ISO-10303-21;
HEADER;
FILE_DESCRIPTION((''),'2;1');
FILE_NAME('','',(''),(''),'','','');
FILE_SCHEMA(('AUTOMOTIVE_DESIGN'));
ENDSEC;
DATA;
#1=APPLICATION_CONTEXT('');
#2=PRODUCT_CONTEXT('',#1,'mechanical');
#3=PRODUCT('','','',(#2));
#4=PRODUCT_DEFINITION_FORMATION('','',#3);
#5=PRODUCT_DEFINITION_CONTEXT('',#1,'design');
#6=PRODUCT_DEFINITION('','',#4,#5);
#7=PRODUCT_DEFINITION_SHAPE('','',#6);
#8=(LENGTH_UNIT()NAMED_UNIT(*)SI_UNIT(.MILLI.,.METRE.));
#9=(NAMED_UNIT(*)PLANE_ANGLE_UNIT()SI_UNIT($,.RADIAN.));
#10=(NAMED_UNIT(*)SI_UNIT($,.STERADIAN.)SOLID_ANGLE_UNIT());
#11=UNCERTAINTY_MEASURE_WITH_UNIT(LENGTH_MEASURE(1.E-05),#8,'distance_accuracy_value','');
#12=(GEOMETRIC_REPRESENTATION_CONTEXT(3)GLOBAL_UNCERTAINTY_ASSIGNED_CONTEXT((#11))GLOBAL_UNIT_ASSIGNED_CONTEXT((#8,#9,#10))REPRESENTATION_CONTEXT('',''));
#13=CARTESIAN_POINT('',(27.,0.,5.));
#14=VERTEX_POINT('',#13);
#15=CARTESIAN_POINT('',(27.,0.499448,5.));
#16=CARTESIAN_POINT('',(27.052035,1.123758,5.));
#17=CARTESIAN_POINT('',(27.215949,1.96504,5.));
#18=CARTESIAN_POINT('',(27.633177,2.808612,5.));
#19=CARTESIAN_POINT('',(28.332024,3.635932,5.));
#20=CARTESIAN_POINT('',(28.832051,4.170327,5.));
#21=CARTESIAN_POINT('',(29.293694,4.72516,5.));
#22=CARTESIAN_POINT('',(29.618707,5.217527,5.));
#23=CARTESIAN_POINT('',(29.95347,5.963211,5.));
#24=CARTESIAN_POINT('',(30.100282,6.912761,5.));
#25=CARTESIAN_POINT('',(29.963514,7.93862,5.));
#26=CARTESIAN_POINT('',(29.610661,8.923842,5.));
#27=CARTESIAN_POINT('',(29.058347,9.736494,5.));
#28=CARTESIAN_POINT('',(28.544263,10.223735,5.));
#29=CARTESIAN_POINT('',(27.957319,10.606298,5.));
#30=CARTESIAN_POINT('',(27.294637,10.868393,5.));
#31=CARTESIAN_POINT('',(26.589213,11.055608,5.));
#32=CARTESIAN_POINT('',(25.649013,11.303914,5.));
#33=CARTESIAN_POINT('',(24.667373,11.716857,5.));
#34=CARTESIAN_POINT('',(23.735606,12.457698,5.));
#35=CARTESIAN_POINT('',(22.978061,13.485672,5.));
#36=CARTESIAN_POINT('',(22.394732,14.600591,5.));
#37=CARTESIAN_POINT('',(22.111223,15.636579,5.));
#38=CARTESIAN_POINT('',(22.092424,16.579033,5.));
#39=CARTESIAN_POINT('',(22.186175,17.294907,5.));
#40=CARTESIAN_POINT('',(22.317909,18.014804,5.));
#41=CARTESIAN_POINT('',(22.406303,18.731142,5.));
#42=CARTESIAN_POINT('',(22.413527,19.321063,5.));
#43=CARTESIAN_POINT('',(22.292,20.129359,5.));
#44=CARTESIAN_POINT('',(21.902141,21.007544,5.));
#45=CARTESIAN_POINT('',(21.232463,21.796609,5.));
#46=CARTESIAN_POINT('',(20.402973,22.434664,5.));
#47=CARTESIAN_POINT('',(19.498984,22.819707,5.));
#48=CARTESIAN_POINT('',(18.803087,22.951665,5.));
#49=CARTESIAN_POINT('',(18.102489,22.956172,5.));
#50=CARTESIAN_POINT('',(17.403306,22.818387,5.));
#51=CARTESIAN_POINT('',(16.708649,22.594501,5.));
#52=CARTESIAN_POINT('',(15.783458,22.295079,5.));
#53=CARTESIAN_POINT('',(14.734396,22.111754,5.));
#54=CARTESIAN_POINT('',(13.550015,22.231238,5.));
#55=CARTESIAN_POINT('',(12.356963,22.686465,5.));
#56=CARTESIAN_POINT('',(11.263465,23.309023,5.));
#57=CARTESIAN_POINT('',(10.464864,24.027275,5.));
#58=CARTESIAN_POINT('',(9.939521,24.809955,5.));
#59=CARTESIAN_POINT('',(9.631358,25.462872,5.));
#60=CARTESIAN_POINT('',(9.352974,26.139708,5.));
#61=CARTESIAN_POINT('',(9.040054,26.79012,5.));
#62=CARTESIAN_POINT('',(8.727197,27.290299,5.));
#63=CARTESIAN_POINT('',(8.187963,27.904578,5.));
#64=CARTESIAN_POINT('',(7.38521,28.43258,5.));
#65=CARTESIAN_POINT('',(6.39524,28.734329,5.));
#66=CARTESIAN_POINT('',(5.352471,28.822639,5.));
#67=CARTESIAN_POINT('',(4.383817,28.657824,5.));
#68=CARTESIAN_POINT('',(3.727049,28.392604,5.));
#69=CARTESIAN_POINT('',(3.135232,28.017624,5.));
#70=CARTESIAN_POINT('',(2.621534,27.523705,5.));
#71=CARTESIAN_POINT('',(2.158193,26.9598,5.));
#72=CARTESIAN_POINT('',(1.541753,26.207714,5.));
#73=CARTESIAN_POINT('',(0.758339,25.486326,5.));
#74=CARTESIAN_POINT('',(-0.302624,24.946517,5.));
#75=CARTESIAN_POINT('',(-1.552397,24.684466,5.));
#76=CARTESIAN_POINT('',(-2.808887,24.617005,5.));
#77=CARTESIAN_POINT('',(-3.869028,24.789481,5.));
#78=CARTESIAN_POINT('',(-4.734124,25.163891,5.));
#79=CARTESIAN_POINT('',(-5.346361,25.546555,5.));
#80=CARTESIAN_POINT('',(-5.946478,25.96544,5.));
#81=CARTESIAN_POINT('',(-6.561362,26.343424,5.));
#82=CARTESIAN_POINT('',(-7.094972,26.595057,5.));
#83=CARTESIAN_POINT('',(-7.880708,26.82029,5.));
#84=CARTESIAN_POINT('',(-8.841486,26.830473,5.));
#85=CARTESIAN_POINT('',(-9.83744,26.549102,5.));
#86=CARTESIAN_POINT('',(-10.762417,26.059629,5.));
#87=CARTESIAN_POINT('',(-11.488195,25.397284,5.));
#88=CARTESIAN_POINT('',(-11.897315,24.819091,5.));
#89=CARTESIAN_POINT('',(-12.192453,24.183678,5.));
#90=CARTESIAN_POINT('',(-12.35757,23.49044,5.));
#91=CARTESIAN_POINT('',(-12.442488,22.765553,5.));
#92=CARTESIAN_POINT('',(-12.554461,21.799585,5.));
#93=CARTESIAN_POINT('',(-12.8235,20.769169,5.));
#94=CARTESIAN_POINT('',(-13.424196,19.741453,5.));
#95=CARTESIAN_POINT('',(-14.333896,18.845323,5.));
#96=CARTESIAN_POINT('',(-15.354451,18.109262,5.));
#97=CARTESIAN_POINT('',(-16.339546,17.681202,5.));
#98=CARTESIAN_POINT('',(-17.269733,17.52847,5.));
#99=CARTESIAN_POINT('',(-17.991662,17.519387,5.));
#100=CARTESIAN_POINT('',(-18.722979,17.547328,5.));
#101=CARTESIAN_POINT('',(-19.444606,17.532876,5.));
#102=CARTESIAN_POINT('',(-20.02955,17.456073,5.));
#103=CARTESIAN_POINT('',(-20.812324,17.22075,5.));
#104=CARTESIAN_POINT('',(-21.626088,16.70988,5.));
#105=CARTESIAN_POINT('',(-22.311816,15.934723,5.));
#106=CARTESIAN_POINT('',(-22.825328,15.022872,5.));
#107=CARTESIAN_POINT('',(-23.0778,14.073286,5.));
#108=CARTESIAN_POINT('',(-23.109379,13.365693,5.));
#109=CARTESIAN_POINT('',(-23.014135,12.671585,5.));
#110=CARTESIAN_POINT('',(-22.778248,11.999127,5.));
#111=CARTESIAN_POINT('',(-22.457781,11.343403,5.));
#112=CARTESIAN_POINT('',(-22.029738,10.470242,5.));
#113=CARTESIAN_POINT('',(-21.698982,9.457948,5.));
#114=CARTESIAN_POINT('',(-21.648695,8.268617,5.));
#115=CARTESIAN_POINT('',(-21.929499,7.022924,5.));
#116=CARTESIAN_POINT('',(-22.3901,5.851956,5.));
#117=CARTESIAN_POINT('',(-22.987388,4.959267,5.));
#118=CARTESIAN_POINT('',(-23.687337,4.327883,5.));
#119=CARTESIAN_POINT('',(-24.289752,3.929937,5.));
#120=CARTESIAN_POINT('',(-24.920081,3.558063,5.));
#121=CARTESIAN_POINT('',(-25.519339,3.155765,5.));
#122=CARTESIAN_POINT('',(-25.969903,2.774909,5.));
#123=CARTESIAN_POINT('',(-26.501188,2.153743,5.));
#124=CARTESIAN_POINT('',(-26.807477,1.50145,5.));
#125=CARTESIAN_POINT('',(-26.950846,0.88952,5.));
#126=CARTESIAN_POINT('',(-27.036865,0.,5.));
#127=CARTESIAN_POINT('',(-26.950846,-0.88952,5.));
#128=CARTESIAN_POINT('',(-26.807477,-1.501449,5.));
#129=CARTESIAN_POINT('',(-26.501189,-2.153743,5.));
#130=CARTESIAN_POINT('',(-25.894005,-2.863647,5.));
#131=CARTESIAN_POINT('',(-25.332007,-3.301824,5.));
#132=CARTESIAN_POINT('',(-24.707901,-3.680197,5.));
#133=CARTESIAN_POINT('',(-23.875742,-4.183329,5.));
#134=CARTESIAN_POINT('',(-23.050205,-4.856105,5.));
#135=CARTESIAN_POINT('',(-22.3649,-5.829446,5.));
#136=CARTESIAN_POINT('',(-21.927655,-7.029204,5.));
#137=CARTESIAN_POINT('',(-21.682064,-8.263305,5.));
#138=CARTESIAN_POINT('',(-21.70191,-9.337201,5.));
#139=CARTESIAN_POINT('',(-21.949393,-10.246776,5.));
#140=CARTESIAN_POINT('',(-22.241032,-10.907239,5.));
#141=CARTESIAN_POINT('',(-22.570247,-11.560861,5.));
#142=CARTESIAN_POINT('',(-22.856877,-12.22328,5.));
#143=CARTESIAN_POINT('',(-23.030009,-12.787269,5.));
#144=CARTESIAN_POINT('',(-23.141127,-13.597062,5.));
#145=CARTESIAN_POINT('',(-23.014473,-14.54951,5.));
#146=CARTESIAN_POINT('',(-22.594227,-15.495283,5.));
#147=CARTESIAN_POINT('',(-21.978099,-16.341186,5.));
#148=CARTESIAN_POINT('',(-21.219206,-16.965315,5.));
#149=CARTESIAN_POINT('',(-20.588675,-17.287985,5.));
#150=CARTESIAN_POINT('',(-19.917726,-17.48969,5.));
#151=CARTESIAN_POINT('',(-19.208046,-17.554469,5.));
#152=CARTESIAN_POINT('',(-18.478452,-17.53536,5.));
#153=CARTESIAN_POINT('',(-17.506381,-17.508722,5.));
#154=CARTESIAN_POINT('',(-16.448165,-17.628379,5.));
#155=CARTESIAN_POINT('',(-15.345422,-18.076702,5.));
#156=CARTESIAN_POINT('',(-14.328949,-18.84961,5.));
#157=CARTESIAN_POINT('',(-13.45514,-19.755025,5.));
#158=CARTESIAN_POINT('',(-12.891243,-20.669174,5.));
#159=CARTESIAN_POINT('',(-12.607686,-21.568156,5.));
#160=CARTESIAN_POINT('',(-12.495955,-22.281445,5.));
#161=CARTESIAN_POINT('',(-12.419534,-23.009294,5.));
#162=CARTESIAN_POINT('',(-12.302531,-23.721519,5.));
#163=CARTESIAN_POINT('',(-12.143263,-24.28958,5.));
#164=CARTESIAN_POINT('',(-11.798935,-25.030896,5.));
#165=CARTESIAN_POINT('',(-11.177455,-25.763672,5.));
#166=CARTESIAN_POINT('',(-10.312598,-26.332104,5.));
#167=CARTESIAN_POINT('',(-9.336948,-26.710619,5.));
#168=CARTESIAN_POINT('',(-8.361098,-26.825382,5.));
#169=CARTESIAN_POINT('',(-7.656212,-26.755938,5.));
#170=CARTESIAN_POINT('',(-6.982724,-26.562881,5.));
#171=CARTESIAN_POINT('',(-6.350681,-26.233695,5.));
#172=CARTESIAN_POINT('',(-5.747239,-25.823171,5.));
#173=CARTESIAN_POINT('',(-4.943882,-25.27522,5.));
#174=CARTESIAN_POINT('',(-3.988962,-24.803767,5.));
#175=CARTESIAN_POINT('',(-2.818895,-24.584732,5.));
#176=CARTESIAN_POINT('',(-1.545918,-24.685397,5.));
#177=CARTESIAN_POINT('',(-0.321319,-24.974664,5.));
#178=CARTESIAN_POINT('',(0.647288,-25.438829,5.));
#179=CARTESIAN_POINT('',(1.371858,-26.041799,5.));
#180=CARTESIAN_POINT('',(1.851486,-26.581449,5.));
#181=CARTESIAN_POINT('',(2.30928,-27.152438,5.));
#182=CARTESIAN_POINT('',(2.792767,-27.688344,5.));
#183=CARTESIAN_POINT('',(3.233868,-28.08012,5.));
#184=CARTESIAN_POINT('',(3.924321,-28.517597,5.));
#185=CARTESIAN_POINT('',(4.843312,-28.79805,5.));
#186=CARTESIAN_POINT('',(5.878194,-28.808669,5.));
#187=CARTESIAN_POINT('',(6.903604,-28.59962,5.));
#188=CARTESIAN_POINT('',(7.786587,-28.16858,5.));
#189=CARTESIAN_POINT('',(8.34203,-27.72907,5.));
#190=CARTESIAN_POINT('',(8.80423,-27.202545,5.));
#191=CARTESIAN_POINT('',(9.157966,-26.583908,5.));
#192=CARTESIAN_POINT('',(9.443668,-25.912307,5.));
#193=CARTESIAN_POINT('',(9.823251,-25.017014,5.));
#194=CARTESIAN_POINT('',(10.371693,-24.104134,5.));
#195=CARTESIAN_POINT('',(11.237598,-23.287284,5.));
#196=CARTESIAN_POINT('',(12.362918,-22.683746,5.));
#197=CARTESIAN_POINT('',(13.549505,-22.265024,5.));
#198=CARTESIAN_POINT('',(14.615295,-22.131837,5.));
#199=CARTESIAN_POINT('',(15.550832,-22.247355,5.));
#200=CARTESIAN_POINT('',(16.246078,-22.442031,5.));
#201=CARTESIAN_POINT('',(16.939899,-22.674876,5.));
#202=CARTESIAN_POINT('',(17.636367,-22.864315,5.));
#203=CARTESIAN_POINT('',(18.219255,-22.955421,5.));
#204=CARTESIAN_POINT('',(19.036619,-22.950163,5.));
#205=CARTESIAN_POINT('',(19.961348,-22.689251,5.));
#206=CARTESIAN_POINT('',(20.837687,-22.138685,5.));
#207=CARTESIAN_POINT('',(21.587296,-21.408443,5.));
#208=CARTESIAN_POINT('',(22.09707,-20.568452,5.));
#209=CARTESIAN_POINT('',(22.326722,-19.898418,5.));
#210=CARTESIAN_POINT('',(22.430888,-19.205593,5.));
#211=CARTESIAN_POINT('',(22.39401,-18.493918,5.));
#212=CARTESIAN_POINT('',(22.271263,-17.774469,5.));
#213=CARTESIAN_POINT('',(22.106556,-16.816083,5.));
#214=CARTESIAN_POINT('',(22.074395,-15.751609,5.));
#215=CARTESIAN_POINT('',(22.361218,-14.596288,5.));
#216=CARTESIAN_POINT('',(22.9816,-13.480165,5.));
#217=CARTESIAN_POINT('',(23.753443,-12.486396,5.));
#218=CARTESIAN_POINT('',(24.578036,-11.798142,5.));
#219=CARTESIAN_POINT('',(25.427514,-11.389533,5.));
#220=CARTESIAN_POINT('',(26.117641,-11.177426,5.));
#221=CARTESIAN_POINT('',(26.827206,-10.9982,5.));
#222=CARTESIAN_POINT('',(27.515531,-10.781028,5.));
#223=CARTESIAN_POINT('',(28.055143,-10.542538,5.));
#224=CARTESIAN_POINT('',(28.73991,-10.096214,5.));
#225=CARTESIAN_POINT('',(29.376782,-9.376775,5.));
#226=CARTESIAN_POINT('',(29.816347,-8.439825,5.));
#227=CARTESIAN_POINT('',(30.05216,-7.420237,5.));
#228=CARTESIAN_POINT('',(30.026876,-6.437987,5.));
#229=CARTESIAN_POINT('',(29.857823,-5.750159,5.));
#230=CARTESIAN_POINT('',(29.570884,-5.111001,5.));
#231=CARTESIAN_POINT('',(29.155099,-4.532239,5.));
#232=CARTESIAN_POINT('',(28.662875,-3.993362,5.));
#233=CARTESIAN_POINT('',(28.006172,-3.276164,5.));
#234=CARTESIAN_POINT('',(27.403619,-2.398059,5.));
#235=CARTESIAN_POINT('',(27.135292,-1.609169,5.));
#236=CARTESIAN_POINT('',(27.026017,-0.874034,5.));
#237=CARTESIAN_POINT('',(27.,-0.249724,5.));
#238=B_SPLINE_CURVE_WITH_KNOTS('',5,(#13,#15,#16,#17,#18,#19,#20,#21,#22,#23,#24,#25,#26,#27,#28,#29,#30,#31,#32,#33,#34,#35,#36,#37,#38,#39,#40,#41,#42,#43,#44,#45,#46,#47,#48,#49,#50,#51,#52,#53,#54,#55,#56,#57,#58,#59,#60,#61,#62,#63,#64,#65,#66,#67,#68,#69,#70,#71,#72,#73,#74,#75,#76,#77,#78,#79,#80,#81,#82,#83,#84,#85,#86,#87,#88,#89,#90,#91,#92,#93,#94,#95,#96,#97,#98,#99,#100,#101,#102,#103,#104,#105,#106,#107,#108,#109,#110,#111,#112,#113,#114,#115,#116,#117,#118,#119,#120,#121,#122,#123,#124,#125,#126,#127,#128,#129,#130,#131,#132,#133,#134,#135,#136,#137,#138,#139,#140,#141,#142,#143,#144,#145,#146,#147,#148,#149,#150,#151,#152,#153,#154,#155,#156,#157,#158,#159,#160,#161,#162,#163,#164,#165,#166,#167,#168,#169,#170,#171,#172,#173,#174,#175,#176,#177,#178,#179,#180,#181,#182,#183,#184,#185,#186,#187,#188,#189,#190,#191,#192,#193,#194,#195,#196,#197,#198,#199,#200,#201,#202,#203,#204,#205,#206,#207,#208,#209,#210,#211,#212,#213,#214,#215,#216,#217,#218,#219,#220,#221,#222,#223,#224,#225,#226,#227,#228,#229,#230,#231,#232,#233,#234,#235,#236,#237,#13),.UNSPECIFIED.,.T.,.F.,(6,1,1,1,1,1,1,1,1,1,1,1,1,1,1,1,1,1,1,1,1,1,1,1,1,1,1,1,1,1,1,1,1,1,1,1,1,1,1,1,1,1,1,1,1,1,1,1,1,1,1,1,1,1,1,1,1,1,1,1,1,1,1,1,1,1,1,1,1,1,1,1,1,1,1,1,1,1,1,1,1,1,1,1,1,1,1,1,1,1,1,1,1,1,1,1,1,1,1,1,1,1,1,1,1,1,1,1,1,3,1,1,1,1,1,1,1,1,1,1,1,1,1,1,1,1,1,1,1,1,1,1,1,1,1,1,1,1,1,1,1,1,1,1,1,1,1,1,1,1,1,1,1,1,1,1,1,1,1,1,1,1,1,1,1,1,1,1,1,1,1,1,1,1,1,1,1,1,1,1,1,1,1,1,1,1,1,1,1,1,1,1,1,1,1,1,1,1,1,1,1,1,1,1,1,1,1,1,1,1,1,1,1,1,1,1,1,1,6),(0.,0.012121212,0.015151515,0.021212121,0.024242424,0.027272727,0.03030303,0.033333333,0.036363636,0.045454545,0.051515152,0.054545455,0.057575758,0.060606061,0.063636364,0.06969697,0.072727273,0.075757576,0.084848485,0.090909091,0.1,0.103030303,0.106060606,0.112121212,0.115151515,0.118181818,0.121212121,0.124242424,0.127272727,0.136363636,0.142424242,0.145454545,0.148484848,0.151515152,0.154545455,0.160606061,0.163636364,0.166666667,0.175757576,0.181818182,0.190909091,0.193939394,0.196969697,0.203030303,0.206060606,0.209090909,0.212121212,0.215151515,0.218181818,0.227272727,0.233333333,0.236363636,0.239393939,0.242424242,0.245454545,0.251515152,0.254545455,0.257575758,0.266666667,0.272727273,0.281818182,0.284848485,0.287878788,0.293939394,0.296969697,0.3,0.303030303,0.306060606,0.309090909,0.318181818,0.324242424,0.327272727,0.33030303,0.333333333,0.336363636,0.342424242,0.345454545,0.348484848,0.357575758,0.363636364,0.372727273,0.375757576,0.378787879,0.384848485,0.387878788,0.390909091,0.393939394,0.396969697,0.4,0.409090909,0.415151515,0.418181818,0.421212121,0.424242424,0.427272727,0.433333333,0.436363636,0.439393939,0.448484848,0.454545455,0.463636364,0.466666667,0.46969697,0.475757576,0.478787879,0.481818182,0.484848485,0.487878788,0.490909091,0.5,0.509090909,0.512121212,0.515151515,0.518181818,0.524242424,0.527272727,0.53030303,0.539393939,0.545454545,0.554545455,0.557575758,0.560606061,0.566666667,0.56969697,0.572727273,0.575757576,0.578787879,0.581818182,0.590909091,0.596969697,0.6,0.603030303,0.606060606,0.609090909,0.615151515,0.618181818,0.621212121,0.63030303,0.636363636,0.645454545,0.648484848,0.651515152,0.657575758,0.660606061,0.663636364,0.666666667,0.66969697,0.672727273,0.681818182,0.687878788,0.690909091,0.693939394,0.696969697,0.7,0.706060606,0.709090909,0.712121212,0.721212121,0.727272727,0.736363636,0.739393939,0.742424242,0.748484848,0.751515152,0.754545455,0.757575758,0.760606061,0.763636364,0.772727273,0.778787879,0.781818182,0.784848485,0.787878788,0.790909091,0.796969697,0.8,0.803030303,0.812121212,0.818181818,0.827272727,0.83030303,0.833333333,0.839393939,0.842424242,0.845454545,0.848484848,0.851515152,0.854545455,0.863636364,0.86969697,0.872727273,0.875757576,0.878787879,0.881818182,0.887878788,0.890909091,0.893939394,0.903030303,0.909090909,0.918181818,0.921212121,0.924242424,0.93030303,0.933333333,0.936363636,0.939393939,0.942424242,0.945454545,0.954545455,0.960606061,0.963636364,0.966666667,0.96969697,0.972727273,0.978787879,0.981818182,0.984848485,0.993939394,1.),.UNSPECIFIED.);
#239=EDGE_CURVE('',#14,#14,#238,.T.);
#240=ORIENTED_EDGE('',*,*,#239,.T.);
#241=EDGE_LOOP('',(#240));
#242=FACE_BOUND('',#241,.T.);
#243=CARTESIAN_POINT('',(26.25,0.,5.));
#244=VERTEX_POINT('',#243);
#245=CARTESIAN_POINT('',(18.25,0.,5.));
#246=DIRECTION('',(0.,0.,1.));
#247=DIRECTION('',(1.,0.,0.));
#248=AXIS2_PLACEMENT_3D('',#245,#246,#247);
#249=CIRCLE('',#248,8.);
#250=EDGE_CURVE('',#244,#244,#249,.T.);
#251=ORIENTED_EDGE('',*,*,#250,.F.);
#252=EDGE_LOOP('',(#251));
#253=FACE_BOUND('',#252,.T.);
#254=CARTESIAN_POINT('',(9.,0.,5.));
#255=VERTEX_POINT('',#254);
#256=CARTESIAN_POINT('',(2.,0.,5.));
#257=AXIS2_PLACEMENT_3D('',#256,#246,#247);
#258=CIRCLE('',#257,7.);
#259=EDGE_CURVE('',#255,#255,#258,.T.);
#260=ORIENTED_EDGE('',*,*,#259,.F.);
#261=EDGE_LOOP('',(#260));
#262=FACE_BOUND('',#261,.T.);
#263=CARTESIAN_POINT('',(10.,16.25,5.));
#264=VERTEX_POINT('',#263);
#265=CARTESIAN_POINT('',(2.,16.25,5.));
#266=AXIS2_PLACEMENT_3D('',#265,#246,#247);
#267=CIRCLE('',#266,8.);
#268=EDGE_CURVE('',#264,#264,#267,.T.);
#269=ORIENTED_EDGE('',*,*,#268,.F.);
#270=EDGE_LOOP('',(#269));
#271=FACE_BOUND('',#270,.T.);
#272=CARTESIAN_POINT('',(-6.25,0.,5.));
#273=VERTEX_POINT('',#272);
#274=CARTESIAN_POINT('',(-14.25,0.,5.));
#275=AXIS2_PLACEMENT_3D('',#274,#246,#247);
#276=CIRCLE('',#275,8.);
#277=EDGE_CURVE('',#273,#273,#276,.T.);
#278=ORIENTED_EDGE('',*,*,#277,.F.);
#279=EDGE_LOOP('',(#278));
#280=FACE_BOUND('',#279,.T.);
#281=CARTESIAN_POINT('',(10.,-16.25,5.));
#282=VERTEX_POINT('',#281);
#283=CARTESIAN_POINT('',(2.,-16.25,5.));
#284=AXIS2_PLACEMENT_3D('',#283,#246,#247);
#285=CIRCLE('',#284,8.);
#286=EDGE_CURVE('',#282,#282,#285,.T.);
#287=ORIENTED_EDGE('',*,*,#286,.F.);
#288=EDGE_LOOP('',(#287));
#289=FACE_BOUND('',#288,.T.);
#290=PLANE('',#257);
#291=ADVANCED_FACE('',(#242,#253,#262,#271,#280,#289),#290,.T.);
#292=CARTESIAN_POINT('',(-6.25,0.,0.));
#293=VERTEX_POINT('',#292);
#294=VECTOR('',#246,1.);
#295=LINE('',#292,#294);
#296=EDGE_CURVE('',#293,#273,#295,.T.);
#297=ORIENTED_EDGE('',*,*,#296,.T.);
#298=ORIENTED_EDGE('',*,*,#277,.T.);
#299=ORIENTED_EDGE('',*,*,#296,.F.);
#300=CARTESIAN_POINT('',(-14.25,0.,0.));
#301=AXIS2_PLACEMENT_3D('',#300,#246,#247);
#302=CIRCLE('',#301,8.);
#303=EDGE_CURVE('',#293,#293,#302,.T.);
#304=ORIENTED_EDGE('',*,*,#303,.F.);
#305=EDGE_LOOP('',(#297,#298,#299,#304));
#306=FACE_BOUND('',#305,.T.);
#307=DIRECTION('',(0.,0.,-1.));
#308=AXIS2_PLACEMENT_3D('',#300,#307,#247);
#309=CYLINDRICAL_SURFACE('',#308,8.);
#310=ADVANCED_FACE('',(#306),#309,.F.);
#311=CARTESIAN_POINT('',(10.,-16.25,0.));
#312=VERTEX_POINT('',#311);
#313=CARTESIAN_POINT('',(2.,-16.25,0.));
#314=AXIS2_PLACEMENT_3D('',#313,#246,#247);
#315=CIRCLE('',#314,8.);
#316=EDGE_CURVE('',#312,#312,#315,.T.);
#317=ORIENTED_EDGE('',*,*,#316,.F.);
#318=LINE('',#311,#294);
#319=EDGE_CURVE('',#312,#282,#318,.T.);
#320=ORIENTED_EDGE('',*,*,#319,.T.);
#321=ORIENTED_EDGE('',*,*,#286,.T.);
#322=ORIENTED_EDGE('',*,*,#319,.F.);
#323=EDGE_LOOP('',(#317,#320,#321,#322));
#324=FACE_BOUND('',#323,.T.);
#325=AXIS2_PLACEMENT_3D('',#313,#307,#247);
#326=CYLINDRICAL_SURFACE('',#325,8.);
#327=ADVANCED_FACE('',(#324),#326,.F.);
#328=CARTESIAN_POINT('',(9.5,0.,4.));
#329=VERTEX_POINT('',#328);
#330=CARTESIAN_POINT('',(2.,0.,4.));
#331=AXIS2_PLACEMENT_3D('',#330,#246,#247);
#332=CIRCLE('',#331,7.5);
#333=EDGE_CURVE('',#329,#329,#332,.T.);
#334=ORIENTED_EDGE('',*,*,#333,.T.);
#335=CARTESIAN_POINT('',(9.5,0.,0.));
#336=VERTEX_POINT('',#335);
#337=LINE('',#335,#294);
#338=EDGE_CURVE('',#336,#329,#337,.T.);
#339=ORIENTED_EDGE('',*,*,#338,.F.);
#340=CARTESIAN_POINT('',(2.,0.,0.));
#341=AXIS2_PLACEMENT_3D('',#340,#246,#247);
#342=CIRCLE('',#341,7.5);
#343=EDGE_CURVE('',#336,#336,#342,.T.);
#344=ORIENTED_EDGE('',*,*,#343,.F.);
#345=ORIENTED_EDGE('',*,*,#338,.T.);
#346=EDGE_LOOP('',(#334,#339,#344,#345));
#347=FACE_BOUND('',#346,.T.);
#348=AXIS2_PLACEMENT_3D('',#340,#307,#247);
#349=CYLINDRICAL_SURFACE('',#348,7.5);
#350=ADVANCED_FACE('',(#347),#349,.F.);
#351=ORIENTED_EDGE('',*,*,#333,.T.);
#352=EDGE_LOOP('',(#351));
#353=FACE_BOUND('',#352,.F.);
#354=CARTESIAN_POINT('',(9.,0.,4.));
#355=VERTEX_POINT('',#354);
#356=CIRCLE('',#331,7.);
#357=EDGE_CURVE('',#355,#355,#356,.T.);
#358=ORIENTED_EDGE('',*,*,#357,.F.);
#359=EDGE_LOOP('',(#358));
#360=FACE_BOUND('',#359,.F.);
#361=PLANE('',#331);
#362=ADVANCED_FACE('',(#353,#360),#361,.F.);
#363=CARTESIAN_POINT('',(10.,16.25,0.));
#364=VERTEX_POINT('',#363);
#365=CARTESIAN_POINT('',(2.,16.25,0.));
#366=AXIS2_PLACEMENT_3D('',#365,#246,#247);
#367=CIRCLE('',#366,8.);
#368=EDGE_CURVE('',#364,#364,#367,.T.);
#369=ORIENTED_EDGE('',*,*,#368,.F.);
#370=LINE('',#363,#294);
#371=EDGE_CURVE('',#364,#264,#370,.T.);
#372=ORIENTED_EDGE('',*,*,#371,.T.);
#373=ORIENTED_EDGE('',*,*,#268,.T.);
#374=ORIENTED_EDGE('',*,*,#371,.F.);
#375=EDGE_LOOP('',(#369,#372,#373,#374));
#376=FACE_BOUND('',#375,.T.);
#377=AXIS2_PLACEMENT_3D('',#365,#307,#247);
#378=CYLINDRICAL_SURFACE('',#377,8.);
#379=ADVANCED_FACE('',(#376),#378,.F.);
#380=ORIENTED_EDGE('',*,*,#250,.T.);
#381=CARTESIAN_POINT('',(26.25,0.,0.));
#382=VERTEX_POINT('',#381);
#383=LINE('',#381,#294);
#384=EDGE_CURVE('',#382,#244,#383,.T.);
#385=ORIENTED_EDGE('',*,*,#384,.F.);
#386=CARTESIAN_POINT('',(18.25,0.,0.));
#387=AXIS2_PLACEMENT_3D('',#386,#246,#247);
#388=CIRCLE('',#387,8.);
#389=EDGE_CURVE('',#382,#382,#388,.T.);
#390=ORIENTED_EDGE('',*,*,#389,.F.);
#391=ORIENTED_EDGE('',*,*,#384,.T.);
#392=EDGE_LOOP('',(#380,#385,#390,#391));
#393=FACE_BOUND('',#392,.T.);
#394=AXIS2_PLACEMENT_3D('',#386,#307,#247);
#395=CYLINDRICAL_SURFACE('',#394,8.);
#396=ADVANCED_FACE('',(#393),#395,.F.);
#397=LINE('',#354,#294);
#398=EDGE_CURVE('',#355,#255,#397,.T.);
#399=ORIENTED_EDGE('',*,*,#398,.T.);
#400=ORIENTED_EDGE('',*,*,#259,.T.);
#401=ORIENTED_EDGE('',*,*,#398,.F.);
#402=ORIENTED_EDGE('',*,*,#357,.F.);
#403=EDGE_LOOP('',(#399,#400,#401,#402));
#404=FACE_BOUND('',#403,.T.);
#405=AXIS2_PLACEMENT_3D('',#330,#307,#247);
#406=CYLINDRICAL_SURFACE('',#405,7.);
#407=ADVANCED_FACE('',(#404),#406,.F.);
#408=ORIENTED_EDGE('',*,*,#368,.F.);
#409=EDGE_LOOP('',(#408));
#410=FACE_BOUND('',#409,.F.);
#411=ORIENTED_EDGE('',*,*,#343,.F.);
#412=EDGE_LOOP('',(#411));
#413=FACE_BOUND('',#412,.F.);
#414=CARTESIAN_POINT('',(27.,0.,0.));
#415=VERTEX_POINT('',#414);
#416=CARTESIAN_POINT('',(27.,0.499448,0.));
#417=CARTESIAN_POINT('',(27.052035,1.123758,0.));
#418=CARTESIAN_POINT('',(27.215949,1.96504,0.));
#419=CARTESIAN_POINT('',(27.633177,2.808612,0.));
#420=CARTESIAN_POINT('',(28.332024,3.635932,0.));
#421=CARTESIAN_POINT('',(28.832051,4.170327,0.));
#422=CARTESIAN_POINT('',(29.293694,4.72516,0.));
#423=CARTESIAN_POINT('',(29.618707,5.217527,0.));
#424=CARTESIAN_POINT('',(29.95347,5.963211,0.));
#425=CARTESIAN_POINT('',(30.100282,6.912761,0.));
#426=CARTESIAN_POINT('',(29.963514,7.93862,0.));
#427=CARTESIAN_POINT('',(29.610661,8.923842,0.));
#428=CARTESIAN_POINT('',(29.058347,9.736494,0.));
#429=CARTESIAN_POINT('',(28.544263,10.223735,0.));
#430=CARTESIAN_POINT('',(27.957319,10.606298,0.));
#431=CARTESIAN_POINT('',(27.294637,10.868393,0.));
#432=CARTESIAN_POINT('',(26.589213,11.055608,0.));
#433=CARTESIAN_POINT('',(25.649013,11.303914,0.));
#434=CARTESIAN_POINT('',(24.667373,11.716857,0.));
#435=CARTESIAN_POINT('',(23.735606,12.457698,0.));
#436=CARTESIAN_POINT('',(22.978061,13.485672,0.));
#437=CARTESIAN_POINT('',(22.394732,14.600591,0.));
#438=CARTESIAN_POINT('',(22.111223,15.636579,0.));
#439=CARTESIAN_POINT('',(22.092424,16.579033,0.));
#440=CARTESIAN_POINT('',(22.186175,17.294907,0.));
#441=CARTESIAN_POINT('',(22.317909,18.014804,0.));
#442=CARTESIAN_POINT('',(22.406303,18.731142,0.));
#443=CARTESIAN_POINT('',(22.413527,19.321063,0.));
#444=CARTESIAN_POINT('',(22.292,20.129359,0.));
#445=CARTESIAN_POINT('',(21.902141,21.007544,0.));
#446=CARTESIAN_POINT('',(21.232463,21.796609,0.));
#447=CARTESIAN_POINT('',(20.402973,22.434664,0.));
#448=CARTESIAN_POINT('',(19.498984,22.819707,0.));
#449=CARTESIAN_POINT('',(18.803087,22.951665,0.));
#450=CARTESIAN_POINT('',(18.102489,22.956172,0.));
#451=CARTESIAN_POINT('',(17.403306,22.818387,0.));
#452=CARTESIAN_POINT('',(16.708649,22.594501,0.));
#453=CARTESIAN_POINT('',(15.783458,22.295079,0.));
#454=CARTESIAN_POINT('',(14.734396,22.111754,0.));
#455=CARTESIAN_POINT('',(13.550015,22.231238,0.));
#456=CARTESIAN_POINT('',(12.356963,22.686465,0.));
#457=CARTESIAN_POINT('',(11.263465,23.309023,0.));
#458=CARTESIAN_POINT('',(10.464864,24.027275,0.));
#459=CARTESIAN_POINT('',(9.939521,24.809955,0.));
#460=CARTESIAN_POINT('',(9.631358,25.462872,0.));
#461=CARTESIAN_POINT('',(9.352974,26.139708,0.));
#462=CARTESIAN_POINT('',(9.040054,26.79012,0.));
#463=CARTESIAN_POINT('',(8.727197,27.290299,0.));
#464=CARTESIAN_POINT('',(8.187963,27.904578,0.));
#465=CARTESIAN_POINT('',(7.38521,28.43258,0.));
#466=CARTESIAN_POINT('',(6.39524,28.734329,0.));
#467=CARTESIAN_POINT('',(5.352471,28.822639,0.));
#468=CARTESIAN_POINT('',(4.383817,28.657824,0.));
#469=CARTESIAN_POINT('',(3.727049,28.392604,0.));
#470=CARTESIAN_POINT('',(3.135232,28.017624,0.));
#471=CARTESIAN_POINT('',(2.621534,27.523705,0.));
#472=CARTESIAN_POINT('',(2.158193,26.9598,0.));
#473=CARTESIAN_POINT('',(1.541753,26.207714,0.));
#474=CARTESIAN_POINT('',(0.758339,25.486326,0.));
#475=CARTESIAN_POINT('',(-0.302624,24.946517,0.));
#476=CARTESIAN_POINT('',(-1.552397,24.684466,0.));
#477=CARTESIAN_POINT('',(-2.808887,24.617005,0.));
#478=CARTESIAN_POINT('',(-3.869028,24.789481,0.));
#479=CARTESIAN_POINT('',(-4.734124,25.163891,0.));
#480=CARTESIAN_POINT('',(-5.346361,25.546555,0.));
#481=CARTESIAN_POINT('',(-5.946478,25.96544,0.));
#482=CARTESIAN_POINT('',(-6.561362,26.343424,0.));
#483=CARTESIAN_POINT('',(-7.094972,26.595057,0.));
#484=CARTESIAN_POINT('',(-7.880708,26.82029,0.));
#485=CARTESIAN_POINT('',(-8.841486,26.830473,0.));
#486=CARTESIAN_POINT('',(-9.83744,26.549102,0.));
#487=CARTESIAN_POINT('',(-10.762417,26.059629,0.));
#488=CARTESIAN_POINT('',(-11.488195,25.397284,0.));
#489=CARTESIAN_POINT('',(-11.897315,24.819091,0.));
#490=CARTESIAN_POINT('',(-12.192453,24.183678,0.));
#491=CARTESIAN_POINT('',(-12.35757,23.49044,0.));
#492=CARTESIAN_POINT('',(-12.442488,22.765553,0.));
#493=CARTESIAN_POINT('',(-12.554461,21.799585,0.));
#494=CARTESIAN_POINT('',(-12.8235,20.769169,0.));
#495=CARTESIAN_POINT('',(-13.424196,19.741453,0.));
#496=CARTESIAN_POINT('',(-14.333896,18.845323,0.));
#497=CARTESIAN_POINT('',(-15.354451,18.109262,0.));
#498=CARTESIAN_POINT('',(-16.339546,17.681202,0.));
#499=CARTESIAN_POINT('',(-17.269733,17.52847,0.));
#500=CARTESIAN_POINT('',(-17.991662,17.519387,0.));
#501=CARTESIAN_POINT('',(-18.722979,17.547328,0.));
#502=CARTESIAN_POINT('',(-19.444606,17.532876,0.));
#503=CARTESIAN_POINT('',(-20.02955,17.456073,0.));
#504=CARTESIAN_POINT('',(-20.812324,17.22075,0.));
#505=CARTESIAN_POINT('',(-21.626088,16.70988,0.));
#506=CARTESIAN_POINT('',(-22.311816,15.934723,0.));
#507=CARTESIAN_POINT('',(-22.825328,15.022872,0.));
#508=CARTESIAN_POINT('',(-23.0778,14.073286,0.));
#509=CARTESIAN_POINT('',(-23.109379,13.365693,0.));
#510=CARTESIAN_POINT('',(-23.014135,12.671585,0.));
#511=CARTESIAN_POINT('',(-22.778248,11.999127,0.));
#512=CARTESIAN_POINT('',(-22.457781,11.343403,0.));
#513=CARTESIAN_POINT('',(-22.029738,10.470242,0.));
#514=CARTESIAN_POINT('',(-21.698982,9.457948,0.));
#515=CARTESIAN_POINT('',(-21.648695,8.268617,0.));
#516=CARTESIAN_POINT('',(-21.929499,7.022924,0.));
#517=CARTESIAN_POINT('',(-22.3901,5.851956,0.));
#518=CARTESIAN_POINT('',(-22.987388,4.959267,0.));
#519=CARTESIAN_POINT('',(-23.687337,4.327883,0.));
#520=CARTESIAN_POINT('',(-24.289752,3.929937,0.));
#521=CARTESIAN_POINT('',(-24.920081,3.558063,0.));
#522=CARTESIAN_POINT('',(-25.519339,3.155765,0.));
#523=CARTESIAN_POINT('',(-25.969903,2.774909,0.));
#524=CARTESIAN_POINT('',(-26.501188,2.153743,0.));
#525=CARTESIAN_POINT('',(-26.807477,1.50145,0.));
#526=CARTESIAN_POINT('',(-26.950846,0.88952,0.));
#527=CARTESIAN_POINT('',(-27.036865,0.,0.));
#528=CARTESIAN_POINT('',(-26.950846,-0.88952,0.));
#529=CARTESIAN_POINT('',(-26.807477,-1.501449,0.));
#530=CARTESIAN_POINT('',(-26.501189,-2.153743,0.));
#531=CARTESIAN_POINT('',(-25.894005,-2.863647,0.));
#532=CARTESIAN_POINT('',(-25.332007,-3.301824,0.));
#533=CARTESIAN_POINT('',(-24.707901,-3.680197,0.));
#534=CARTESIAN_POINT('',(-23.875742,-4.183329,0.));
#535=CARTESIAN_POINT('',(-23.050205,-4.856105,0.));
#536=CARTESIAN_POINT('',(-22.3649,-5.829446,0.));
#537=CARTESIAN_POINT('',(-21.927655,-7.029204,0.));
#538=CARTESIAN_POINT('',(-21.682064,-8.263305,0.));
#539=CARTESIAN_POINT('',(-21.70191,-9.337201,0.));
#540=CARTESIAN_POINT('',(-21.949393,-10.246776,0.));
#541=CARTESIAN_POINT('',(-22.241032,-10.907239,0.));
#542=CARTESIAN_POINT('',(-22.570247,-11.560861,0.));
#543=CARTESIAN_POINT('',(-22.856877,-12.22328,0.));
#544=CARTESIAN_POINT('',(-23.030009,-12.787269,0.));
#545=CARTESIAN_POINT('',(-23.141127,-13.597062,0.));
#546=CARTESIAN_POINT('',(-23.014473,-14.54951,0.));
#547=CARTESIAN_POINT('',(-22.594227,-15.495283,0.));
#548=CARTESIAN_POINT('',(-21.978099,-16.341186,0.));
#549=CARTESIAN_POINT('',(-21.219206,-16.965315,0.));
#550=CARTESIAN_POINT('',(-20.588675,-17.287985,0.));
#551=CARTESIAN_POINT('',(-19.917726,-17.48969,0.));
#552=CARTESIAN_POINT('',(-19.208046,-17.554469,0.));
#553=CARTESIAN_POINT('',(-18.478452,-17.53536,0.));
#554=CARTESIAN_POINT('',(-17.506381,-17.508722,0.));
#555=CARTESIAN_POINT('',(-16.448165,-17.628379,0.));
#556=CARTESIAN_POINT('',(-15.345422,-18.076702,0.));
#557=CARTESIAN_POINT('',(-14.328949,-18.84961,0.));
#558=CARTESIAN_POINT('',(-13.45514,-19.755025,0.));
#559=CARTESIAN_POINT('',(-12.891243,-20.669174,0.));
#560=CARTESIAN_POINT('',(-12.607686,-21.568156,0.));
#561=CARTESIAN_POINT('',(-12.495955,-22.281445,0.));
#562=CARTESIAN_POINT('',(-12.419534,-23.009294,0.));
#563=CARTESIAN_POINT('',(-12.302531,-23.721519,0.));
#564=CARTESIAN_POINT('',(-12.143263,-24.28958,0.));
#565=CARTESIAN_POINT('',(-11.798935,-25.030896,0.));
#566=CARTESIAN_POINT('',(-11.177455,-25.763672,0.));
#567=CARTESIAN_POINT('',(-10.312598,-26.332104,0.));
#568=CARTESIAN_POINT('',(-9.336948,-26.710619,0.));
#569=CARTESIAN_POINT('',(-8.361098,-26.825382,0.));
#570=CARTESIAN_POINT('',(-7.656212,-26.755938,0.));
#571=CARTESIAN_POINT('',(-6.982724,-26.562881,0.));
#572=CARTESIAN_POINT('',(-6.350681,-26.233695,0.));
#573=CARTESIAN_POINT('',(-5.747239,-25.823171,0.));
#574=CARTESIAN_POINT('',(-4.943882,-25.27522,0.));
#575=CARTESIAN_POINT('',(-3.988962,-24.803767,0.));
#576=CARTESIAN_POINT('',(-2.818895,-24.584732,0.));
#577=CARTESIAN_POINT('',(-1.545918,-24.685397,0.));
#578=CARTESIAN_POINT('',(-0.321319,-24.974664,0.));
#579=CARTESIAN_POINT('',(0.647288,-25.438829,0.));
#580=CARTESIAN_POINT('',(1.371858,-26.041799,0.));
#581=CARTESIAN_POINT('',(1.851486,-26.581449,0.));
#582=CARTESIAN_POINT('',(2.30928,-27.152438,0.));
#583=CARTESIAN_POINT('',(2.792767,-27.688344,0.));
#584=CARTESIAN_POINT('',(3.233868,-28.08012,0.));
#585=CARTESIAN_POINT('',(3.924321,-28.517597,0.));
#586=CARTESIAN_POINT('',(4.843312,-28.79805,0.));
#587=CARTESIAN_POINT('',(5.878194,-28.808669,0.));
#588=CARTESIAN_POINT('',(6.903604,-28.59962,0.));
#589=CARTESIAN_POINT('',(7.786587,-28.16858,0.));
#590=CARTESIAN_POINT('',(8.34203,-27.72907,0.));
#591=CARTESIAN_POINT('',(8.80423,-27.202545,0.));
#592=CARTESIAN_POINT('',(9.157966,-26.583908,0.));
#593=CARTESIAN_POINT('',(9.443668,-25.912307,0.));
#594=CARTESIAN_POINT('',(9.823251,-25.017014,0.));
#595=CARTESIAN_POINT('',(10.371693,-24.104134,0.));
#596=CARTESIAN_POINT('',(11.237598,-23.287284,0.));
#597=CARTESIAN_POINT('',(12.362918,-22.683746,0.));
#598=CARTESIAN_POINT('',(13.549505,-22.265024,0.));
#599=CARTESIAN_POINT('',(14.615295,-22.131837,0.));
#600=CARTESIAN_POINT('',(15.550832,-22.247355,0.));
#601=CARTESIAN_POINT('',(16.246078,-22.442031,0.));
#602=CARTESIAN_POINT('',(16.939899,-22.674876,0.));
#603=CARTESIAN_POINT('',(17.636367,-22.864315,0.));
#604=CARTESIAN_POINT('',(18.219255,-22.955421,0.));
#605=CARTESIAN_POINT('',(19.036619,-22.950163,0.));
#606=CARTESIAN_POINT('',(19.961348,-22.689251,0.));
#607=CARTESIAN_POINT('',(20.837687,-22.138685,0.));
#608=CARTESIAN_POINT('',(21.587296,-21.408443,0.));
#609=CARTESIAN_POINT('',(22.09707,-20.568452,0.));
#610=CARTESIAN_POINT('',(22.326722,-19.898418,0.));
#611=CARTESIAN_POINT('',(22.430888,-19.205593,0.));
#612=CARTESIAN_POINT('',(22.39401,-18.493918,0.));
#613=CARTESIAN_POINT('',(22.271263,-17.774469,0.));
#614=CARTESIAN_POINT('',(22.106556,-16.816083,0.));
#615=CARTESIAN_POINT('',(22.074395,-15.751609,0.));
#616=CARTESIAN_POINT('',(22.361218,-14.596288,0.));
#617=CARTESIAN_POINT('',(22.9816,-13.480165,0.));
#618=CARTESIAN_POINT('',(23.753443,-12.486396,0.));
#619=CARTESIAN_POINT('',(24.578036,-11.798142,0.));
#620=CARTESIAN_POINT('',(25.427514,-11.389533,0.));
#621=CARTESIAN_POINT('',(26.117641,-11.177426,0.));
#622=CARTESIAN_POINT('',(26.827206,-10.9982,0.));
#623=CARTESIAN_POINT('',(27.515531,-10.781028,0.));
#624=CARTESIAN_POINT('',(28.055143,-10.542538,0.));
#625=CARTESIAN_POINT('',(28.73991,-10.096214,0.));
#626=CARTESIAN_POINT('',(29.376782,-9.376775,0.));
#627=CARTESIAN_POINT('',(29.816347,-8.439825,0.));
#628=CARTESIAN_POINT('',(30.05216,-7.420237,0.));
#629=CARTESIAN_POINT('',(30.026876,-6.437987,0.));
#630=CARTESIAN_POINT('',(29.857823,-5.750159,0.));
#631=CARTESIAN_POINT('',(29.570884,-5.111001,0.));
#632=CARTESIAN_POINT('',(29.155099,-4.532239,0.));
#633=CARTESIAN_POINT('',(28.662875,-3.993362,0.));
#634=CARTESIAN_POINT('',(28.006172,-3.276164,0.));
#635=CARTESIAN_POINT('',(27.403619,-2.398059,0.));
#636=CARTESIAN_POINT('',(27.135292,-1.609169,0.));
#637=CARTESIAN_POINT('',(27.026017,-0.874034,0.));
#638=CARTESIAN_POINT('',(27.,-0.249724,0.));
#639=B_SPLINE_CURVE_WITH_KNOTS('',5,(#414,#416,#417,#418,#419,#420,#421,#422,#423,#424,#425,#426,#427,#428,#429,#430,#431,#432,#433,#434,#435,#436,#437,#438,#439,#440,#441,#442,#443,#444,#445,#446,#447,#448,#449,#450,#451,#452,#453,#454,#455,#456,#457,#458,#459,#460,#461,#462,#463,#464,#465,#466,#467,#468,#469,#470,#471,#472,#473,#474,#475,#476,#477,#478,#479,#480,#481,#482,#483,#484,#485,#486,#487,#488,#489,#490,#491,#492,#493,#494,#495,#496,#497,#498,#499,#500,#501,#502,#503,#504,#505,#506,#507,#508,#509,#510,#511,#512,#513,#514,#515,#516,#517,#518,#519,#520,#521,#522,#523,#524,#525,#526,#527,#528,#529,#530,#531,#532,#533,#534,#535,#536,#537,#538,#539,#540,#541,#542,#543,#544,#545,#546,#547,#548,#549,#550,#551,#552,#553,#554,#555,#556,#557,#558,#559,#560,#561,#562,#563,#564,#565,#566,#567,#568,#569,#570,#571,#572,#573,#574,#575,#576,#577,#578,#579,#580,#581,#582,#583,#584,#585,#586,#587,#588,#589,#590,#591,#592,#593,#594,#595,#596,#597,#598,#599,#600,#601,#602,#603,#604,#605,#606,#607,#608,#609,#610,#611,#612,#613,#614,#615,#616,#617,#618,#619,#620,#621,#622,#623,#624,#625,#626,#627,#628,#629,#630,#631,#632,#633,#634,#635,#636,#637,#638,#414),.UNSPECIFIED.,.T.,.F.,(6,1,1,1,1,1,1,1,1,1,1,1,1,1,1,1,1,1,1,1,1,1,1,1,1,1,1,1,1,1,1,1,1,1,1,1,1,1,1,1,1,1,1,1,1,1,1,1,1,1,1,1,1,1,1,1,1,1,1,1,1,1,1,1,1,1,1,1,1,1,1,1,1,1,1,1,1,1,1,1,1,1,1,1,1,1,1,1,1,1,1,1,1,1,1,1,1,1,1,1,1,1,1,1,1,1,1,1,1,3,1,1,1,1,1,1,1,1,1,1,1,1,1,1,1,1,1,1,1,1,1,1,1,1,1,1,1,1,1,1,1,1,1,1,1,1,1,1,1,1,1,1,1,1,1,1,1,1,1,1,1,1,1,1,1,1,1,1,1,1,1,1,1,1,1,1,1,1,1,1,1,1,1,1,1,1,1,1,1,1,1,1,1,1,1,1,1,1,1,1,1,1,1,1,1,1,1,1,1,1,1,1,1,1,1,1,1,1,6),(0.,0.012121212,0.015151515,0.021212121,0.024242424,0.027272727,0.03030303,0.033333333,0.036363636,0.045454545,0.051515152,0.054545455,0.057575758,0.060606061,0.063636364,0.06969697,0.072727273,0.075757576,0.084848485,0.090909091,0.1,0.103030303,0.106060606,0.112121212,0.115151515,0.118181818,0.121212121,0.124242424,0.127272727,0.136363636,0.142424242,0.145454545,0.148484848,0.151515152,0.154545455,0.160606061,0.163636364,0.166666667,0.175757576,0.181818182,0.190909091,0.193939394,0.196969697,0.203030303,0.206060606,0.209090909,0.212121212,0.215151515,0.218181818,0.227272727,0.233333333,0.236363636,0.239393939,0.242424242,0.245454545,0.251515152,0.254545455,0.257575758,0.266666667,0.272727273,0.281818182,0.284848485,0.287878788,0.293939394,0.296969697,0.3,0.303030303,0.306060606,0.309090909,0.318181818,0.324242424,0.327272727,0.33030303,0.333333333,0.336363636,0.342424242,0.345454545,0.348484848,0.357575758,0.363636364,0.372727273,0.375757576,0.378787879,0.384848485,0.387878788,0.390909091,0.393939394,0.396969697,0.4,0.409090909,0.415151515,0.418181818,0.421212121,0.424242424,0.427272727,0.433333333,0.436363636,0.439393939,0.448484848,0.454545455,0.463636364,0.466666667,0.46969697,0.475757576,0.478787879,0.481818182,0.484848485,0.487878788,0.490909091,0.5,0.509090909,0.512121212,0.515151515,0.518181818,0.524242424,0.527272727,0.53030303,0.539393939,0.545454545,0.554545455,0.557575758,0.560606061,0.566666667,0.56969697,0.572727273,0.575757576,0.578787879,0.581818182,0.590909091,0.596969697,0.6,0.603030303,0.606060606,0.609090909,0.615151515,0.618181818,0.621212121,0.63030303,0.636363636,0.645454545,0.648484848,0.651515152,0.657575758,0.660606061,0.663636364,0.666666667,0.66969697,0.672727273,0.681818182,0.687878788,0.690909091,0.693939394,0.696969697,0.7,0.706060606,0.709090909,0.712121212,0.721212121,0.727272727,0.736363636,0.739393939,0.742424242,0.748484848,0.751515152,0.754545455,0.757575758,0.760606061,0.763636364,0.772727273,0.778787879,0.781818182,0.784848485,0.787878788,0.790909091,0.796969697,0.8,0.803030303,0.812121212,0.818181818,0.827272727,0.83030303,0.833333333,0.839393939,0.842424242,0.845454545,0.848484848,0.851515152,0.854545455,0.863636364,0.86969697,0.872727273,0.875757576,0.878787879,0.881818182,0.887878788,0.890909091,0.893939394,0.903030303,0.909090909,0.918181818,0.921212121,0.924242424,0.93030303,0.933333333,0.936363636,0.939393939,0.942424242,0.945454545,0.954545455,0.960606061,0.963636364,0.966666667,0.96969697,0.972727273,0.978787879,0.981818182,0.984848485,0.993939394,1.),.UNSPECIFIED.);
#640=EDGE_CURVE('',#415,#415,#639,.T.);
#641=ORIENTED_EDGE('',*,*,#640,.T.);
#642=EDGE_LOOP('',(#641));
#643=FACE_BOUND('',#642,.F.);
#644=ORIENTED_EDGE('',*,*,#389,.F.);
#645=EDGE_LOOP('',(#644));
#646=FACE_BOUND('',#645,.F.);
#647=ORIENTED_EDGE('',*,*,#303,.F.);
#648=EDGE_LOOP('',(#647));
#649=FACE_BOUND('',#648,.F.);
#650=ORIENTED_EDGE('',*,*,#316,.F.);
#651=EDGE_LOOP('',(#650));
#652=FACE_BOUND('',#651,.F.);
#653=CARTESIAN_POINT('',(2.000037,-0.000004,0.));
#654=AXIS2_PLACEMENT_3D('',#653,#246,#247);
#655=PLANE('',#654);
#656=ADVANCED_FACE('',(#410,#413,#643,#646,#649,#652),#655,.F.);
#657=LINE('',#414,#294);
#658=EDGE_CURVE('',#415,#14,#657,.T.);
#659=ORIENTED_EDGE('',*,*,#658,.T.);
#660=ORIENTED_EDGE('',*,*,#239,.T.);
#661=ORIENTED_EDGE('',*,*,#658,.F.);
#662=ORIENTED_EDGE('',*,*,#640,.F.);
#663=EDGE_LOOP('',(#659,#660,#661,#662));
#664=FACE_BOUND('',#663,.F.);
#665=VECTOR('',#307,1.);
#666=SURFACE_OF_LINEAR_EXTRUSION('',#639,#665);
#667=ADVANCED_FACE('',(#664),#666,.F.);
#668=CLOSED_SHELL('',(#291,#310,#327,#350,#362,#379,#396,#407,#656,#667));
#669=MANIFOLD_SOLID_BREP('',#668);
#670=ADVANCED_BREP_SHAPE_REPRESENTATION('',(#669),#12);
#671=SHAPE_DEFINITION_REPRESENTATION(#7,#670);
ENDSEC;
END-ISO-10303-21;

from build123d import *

# Parameters (mm, degrees)
SKETCH2_R           = 7.5
SKETCH2_R_2         = 8
BOSS_EXTRUDE2_DEPTH = 5
BOSS_EXTRUDE3_START = -1
SKETCH3_R           = 7.5
SKETCH3_R_2         = 7
BOSS_EXTRUDE3_DEPTH = 1


with BuildPart() as part:
    # Sketch2 → Boss-Extrude2 (new body)
    with BuildSketch(Plane.XY):
        with BuildLine():
            add(Edge.make_bspline(
                [(-27, 1.4e-07), (-27.000000046, -0.38122265), (-26.950846147, -0.889519693), (-26.807477288, -1.501449368), (-26.501188779, -2.153742987), (-25.894005039, -2.863646577), (-25.332006546, -3.301823769), (-24.707901453, -3.680196711), (-23.875741787, -4.183328829), (-23.050204901, -4.85610529), (-22.36490028, -5.829446295), (-21.927654739, -7.029204359), (-21.682063873, -8.263304556), (-21.701910095, -9.337201224), (-21.949393075, -10.246775757), (-22.241031593, -10.907239434), (-22.57024729, -11.560861227), (-22.856876634, -12.223279798), (-23.030008511, -12.787269172), (-23.141127016, -13.597061561), (-23.014473352, -14.549510135), (-22.594227217, -15.495282686), (-21.978098658, -16.341186043), (-21.219206278, -16.965315068), (-20.588674801, -17.287985044), (-19.917726058, -17.489690486), (-19.208046365, -17.554469273), (-18.478451893, -17.535360159), (-17.506380875, -17.508722349), (-16.448164637, -17.628378986), (-15.345421828, -18.076701895), (-14.328949291, -18.849609818), (-13.455140168, -19.755024522), (-12.8912435, -20.669173566), (-12.607686312, -21.568155755), (-12.495954623, -22.281444843), (-12.419533871, -23.00929393), (-12.302531302, -23.721519416), (-12.143263428, -24.289579628), (-11.798935445, -25.030895536), (-11.177455026, -25.763672124), (-10.312598235, -26.332104409), (-9.336948027, -26.710619349), (-8.361097504, -26.8253819), (-7.656212112, -26.755938103), (-6.982723917, -26.562881242), (-6.350681311, -26.233694816), (-5.747238551, -25.823170655), (-4.943881861, -25.275220233), (-3.98896245, -24.80376691), (-2.818894502, -24.584732367), (-1.545917818, -24.685397344), (-0.32131866, -24.974663785), (0.64728769, -25.438829341), (1.371857642, -26.041798695), (1.851485516, -26.581448948), (2.309279668, -27.152438386), (2.792766662, -27.688344227), (3.233867861, -28.080120174), (3.924320632, -28.517597038), (4.843312163, -28.79805025), (5.878193689, -28.808669036), (6.903603501, -28.59961974), (7.78658652, -28.168579517), (8.342029695, -27.729069863), (8.8042296, -27.202544889), (9.157966056, -26.583907613), (9.443668291, -25.912306926), (9.823250581, -25.01701428), (10.371692999, -24.104134095), (11.23759778, -23.28728402), (12.362917508, -22.683745633), (13.54950512, -22.265023758), (14.615295481, -22.131836544), (15.550832357, -22.247354551), (16.246077954, -22.442030828), (16.939899098, -22.674875505), (17.636366812, -22.864315383), (18.219254822, -22.95542097), (19.036618505, -22.950162977), (19.96134783, -22.689250899), (20.83768652, -22.138684796), (21.587295564, -21.408442939), (22.097070209, -20.568452167), (22.326721884, -19.898417866), (22.430888294, -19.205592737), (22.394009775, -18.493917577), (22.271263046, -17.774468835), (22.10655624, -16.816083054), (22.074395073, -15.751609017), (22.361218036, -14.596287537), (22.981599746, -13.480164959), (23.75344263, -12.486396006), (24.578036091, -11.798142019), (25.427513543, -11.38953253), (26.1176413, -11.177426487), (26.827206125, -10.998199864), (27.515530981, -10.781027957), (28.055142977, -10.542537803), (28.739910377, -10.096214328), (29.37678247, -9.376774703), (29.816346981, -8.439824558), (30.052159683, -7.420236769), (30.026876107, -6.437986584), (29.857823497, -5.750158792), (29.570884313, -5.111000591), (29.155099489, -4.532239381), (28.662875013, -3.993362478), (28.006172359, -3.276164276), (27.40361855, -2.398059371), (27.135292367, -1.609168837), (27.026017294, -0.87403381), (26.999999972, -0.249723955), (27, 0)],
                knots=[0.5, 0.5, 0.5, 0.5, 0.5, 0.5, 0.509090909, 0.512121212, 0.515151515, 0.518181818, 0.524242424, 0.527272727, 0.53030303, 0.539393939, 0.545454545, 0.554545455, 0.557575758, 0.560606061, 0.566666667, 0.56969697, 0.572727273, 0.575757576, 0.578787879, 0.581818182, 0.590909091, 0.596969697, 0.6, 0.603030303, 0.606060606, 0.609090909, 0.615151515, 0.618181818, 0.621212121, 0.63030303, 0.636363636, 0.645454545, 0.648484848, 0.651515152, 0.657575758, 0.660606061, 0.663636364, 0.666666667, 0.66969697, 0.672727273, 0.681818182, 0.687878788, 0.690909091, 0.693939394, 0.696969697, 0.7, 0.706060606, 0.709090909, 0.712121212, 0.721212121, 0.727272727, 0.736363636, 0.739393939, 0.742424242, 0.748484848, 0.751515152, 0.754545455, 0.757575758, 0.760606061, 0.763636364, 0.772727273, 0.778787879, 0.781818182, 0.784848485, 0.787878788, 0.790909091, 0.796969697, 0.8, 0.803030303, 0.812121212, 0.818181818, 0.827272727, 0.83030303, 0.833333333, 0.839393939, 0.842424242, 0.845454545, 0.848484848, 0.851515152, 0.854545455, 0.863636364, 0.86969697, 0.872727273, 0.875757576, 0.878787879, 0.881818182, 0.887878788, 0.890909091, 0.893939394, 0.903030303, 0.909090909, 0.918181818, 0.921212121, 0.924242424, 0.93030303, 0.933333333, 0.936363636, 0.939393939, 0.942424242, 0.945454545, 0.954545455, 0.960606061, 0.963636364, 0.966666667, 0.96969697, 0.972727273, 0.978787879, 0.981818182, 0.984848485, 0.993939394, 1, 1, 1, 1, 1, 1], degree=5, weights=[1, 1, 1, 1, 1, 1, 1, 1, 1, 1, 1, 1, 1, 1, 1, 1, 1, 1, 1, 1, 1, 1, 1, 1, 1, 1, 1, 1, 1, 1, 1, 1, 1, 1, 1, 1, 1, 1, 1, 1, 1, 1, 1, 1, 1, 1, 1, 1, 1, 1, 1, 1, 1, 1, 1, 1, 1, 1, 1, 1, 1, 1, 1, 1, 1, 1, 1, 1, 1, 1, 1, 1, 1, 1, 1, 1, 1, 1, 1, 1, 1, 1, 1, 1, 1, 1, 1, 1, 1, 1, 1, 1, 1, 1, 1, 1, 1, 1, 1, 1, 1, 1, 1, 1, 1, 1, 1, 1, 1, 1, 1, 1, 1, 1]))
            add(Edge.make_bspline(
                [(27, 0), (27.000000055, 0.49944791), (27.052034907, 1.123757861), (27.215948845, 1.965040117), (27.633176826, 2.808611672), (28.33202394, 3.635931787), (28.832050628, 4.170326525), (29.293694347, 4.725159671), (29.618707334, 5.217526626), (29.95346964, 5.963211033), (30.100282111, 6.912761209), (29.963513816, 7.938620344), (29.610661309, 8.923842146), (29.058346869, 9.736494251), (28.544262983, 10.22373507), (27.957319369, 10.60629813), (27.294636983, 10.868392795), (26.589212555, 11.05560825), (25.649012505, 11.303913512), (24.66737263, 11.716857181), (23.735605812, 12.457698413), (22.978060881, 13.485671541), (22.394731967, 14.600591067), (22.111222623, 15.636578701), (22.092424044, 16.579033087), (22.186175033, 17.294907409), (22.317908642, 18.014803707), (22.406302606, 18.73114249), (22.413527257, 19.321063217), (22.291999802, 20.129359026), (21.902140729, 21.00754428), (21.232462596, 21.796609379), (20.402973058, 22.434664232), (19.498983685, 22.819706956), (18.803086525, 22.951665284), (18.102488931, 22.956172135), (17.403305959, 22.818387051), (16.708648849, 22.594501475), (15.783458276, 22.295078629), (14.734396061, 22.111754365), (13.550014924, 22.231238495), (12.356963342, 22.68646481), (11.263464828, 23.309023378), (10.46486439, 24.027274912), (9.93952071, 24.809954715), (9.631358181, 25.462872129), (9.352974223, 26.139708), (9.040053972, 26.790119916), (8.72719651, 27.290298753), (8.187963403, 27.904577755), (7.385210287, 28.432580474), (6.395240391, 28.734328943), (5.35247089, 28.822638941), (4.383816823, 28.657823939), (3.727048821, 28.39260394), (3.135232032, 28.017623687), (2.621534127, 27.523704645), (2.158193061, 26.959800126), (1.541753434, 26.207713812), (0.758338719, 25.486325773), (-0.302624094, 24.946517434), (-1.552396879, 24.684465796), (-2.80888694, 24.617005461), (-3.869028477, 24.789481108), (-4.734124352, 25.16389102), (-5.346360972, 25.54655486), (-5.946477559, 25.965439696), (-6.561362056, 26.343423559), (-7.094971596, 26.595057258), (-7.880707654, 26.820290211), (-8.841486371, 26.830473263), (-9.837439582, 26.549102095), (-10.762417098, 26.059629437), (-11.488195037, 25.397284308), (-11.897314682, 24.819091457), (-12.192453016, 24.183677683), (-12.357570398, 23.490440488), (-12.442487907, 22.765552726), (-12.554461361, 21.799585033), (-12.823499939, 20.769168826), (-13.424196232, 19.74145335), (-14.333896191, 18.845323304), (-15.354451083, 18.109262246), (-16.339546271, 17.681202206), (-17.269732513, 17.528469726), (-17.991662424, 17.519386926), (-18.722978863, 17.547327752), (-19.444606122, 17.532876355), (-20.029550483, 17.456072996), (-20.812323845, 17.220750028), (-21.626087709, 16.709880366), (-22.311816127, 15.934722919), (-22.825327833, 15.022871715), (-23.077800275, 14.073286358), (-23.109378967, 13.3656928), (-23.01413451, 12.671584887), (-22.778247768, 11.999127451), (-22.45778101, 11.343403189), (-22.029737511, 10.470242035), (-21.698982104, 9.457947524), (-21.648695048, 8.268617315), (-21.929498872, 7.022923818), (-22.390099628, 5.851956221), (-22.987387705, 4.959266533), (-23.687336755, 4.327883144), (-24.28975231, 3.929937429), (-24.9200808, 3.558063231), (-25.519339266, 3.155764791), (-25.969902744, 2.774908896), (-26.501188399, 2.153743388), (-26.807476949, 1.501449736), (-26.950845931, 0.889519995), (-26.999999954, 0.38122293), (-27, 1.4e-07)],
                knots=[0, 0, 0, 0, 0, 0, 0.012121212, 0.015151515, 0.021212121, 0.024242424, 0.027272727, 0.03030303, 0.033333333, 0.036363636, 0.045454545, 0.051515152, 0.054545455, 0.057575758, 0.060606061, 0.063636364, 0.06969697, 0.072727273, 0.075757576, 0.084848485, 0.090909091, 0.1, 0.103030303, 0.106060606, 0.112121212, 0.115151515, 0.118181818, 0.121212121, 0.124242424, 0.127272727, 0.136363636, 0.142424242, 0.145454545, 0.148484848, 0.151515152, 0.154545455, 0.160606061, 0.163636364, 0.166666667, 0.175757576, 0.181818182, 0.190909091, 0.193939394, 0.196969697, 0.203030303, 0.206060606, 0.209090909, 0.212121212, 0.215151515, 0.218181818, 0.227272727, 0.233333333, 0.236363636, 0.239393939, 0.242424242, 0.245454545, 0.251515152, 0.254545455, 0.257575758, 0.266666667, 0.272727273, 0.281818182, 0.284848485, 0.287878788, 0.293939394, 0.296969697, 0.3, 0.303030303, 0.306060606, 0.309090909, 0.318181818, 0.324242424, 0.327272727, 0.33030303, 0.333333333, 0.336363636, 0.342424242, 0.345454545, 0.348484848, 0.357575758, 0.363636364, 0.372727273, 0.375757576, 0.378787879, 0.384848485, 0.387878788, 0.390909091, 0.393939394, 0.396969697, 0.4, 0.409090909, 0.415151515, 0.418181818, 0.421212121, 0.424242424, 0.427272727, 0.433333333, 0.436363636, 0.439393939, 0.448484848, 0.454545455, 0.463636364, 0.466666667, 0.46969697, 0.475757576, 0.478787879, 0.481818182, 0.484848485, 0.487878788, 0.490909091, 0.5, 0.5, 0.5, 0.5, 0.5, 0.5], degree=5, weights=[1, 1, 1, 1, 1, 1, 1, 1, 1, 1, 1, 1, 1, 1, 1, 1, 1, 1, 1, 1, 1, 1, 1, 1, 1, 1, 1, 1, 1, 1, 1, 1, 1, 1, 1, 1, 1, 1, 1, 1, 1, 1, 1, 1, 1, 1, 1, 1, 1, 1, 1, 1, 1, 1, 1, 1, 1, 1, 1, 1, 1, 1, 1, 1, 1, 1, 1, 1, 1, 1, 1, 1, 1, 1, 1, 1, 1, 1, 1, 1, 1, 1, 1, 1, 1, 1, 1, 1, 1, 1, 1, 1, 1, 1, 1, 1, 1, 1, 1, 1, 1, 1, 1, 1, 1, 1, 1, 1, 1, 1, 1, 1, 1, 1]))
        make_face()
        with Locations((2, 0)):
            Circle(SKETCH2_R, mode=Mode.SUBTRACT)
        with Locations((18.25, 0)):
            Circle(SKETCH2_R_2, mode=Mode.SUBTRACT)
        with Locations((2, 16.25)):
            Circle(SKETCH2_R_2, mode=Mode.SUBTRACT)
        with Locations((-14.25, 0)):
            Circle(SKETCH2_R_2, mode=Mode.SUBTRACT)
        with Locations((2, -16.25)):
            Circle(SKETCH2_R_2, mode=Mode.SUBTRACT)
    extrude(amount=BOSS_EXTRUDE2_DEPTH)

    # Sketch3 → Boss-Extrude3 (add)
    with BuildSketch(Plane.XY.offset(5).offset(BOSS_EXTRUDE3_START)):
        with Locations((2, 0)):
            Circle(SKETCH3_R)
        with Locations((2, 0)):
            Circle(SKETCH3_R_2, mode=Mode.SUBTRACT)
    extrude(amount=BOSS_EXTRUDE3_DEPTH)


solid = part.part
